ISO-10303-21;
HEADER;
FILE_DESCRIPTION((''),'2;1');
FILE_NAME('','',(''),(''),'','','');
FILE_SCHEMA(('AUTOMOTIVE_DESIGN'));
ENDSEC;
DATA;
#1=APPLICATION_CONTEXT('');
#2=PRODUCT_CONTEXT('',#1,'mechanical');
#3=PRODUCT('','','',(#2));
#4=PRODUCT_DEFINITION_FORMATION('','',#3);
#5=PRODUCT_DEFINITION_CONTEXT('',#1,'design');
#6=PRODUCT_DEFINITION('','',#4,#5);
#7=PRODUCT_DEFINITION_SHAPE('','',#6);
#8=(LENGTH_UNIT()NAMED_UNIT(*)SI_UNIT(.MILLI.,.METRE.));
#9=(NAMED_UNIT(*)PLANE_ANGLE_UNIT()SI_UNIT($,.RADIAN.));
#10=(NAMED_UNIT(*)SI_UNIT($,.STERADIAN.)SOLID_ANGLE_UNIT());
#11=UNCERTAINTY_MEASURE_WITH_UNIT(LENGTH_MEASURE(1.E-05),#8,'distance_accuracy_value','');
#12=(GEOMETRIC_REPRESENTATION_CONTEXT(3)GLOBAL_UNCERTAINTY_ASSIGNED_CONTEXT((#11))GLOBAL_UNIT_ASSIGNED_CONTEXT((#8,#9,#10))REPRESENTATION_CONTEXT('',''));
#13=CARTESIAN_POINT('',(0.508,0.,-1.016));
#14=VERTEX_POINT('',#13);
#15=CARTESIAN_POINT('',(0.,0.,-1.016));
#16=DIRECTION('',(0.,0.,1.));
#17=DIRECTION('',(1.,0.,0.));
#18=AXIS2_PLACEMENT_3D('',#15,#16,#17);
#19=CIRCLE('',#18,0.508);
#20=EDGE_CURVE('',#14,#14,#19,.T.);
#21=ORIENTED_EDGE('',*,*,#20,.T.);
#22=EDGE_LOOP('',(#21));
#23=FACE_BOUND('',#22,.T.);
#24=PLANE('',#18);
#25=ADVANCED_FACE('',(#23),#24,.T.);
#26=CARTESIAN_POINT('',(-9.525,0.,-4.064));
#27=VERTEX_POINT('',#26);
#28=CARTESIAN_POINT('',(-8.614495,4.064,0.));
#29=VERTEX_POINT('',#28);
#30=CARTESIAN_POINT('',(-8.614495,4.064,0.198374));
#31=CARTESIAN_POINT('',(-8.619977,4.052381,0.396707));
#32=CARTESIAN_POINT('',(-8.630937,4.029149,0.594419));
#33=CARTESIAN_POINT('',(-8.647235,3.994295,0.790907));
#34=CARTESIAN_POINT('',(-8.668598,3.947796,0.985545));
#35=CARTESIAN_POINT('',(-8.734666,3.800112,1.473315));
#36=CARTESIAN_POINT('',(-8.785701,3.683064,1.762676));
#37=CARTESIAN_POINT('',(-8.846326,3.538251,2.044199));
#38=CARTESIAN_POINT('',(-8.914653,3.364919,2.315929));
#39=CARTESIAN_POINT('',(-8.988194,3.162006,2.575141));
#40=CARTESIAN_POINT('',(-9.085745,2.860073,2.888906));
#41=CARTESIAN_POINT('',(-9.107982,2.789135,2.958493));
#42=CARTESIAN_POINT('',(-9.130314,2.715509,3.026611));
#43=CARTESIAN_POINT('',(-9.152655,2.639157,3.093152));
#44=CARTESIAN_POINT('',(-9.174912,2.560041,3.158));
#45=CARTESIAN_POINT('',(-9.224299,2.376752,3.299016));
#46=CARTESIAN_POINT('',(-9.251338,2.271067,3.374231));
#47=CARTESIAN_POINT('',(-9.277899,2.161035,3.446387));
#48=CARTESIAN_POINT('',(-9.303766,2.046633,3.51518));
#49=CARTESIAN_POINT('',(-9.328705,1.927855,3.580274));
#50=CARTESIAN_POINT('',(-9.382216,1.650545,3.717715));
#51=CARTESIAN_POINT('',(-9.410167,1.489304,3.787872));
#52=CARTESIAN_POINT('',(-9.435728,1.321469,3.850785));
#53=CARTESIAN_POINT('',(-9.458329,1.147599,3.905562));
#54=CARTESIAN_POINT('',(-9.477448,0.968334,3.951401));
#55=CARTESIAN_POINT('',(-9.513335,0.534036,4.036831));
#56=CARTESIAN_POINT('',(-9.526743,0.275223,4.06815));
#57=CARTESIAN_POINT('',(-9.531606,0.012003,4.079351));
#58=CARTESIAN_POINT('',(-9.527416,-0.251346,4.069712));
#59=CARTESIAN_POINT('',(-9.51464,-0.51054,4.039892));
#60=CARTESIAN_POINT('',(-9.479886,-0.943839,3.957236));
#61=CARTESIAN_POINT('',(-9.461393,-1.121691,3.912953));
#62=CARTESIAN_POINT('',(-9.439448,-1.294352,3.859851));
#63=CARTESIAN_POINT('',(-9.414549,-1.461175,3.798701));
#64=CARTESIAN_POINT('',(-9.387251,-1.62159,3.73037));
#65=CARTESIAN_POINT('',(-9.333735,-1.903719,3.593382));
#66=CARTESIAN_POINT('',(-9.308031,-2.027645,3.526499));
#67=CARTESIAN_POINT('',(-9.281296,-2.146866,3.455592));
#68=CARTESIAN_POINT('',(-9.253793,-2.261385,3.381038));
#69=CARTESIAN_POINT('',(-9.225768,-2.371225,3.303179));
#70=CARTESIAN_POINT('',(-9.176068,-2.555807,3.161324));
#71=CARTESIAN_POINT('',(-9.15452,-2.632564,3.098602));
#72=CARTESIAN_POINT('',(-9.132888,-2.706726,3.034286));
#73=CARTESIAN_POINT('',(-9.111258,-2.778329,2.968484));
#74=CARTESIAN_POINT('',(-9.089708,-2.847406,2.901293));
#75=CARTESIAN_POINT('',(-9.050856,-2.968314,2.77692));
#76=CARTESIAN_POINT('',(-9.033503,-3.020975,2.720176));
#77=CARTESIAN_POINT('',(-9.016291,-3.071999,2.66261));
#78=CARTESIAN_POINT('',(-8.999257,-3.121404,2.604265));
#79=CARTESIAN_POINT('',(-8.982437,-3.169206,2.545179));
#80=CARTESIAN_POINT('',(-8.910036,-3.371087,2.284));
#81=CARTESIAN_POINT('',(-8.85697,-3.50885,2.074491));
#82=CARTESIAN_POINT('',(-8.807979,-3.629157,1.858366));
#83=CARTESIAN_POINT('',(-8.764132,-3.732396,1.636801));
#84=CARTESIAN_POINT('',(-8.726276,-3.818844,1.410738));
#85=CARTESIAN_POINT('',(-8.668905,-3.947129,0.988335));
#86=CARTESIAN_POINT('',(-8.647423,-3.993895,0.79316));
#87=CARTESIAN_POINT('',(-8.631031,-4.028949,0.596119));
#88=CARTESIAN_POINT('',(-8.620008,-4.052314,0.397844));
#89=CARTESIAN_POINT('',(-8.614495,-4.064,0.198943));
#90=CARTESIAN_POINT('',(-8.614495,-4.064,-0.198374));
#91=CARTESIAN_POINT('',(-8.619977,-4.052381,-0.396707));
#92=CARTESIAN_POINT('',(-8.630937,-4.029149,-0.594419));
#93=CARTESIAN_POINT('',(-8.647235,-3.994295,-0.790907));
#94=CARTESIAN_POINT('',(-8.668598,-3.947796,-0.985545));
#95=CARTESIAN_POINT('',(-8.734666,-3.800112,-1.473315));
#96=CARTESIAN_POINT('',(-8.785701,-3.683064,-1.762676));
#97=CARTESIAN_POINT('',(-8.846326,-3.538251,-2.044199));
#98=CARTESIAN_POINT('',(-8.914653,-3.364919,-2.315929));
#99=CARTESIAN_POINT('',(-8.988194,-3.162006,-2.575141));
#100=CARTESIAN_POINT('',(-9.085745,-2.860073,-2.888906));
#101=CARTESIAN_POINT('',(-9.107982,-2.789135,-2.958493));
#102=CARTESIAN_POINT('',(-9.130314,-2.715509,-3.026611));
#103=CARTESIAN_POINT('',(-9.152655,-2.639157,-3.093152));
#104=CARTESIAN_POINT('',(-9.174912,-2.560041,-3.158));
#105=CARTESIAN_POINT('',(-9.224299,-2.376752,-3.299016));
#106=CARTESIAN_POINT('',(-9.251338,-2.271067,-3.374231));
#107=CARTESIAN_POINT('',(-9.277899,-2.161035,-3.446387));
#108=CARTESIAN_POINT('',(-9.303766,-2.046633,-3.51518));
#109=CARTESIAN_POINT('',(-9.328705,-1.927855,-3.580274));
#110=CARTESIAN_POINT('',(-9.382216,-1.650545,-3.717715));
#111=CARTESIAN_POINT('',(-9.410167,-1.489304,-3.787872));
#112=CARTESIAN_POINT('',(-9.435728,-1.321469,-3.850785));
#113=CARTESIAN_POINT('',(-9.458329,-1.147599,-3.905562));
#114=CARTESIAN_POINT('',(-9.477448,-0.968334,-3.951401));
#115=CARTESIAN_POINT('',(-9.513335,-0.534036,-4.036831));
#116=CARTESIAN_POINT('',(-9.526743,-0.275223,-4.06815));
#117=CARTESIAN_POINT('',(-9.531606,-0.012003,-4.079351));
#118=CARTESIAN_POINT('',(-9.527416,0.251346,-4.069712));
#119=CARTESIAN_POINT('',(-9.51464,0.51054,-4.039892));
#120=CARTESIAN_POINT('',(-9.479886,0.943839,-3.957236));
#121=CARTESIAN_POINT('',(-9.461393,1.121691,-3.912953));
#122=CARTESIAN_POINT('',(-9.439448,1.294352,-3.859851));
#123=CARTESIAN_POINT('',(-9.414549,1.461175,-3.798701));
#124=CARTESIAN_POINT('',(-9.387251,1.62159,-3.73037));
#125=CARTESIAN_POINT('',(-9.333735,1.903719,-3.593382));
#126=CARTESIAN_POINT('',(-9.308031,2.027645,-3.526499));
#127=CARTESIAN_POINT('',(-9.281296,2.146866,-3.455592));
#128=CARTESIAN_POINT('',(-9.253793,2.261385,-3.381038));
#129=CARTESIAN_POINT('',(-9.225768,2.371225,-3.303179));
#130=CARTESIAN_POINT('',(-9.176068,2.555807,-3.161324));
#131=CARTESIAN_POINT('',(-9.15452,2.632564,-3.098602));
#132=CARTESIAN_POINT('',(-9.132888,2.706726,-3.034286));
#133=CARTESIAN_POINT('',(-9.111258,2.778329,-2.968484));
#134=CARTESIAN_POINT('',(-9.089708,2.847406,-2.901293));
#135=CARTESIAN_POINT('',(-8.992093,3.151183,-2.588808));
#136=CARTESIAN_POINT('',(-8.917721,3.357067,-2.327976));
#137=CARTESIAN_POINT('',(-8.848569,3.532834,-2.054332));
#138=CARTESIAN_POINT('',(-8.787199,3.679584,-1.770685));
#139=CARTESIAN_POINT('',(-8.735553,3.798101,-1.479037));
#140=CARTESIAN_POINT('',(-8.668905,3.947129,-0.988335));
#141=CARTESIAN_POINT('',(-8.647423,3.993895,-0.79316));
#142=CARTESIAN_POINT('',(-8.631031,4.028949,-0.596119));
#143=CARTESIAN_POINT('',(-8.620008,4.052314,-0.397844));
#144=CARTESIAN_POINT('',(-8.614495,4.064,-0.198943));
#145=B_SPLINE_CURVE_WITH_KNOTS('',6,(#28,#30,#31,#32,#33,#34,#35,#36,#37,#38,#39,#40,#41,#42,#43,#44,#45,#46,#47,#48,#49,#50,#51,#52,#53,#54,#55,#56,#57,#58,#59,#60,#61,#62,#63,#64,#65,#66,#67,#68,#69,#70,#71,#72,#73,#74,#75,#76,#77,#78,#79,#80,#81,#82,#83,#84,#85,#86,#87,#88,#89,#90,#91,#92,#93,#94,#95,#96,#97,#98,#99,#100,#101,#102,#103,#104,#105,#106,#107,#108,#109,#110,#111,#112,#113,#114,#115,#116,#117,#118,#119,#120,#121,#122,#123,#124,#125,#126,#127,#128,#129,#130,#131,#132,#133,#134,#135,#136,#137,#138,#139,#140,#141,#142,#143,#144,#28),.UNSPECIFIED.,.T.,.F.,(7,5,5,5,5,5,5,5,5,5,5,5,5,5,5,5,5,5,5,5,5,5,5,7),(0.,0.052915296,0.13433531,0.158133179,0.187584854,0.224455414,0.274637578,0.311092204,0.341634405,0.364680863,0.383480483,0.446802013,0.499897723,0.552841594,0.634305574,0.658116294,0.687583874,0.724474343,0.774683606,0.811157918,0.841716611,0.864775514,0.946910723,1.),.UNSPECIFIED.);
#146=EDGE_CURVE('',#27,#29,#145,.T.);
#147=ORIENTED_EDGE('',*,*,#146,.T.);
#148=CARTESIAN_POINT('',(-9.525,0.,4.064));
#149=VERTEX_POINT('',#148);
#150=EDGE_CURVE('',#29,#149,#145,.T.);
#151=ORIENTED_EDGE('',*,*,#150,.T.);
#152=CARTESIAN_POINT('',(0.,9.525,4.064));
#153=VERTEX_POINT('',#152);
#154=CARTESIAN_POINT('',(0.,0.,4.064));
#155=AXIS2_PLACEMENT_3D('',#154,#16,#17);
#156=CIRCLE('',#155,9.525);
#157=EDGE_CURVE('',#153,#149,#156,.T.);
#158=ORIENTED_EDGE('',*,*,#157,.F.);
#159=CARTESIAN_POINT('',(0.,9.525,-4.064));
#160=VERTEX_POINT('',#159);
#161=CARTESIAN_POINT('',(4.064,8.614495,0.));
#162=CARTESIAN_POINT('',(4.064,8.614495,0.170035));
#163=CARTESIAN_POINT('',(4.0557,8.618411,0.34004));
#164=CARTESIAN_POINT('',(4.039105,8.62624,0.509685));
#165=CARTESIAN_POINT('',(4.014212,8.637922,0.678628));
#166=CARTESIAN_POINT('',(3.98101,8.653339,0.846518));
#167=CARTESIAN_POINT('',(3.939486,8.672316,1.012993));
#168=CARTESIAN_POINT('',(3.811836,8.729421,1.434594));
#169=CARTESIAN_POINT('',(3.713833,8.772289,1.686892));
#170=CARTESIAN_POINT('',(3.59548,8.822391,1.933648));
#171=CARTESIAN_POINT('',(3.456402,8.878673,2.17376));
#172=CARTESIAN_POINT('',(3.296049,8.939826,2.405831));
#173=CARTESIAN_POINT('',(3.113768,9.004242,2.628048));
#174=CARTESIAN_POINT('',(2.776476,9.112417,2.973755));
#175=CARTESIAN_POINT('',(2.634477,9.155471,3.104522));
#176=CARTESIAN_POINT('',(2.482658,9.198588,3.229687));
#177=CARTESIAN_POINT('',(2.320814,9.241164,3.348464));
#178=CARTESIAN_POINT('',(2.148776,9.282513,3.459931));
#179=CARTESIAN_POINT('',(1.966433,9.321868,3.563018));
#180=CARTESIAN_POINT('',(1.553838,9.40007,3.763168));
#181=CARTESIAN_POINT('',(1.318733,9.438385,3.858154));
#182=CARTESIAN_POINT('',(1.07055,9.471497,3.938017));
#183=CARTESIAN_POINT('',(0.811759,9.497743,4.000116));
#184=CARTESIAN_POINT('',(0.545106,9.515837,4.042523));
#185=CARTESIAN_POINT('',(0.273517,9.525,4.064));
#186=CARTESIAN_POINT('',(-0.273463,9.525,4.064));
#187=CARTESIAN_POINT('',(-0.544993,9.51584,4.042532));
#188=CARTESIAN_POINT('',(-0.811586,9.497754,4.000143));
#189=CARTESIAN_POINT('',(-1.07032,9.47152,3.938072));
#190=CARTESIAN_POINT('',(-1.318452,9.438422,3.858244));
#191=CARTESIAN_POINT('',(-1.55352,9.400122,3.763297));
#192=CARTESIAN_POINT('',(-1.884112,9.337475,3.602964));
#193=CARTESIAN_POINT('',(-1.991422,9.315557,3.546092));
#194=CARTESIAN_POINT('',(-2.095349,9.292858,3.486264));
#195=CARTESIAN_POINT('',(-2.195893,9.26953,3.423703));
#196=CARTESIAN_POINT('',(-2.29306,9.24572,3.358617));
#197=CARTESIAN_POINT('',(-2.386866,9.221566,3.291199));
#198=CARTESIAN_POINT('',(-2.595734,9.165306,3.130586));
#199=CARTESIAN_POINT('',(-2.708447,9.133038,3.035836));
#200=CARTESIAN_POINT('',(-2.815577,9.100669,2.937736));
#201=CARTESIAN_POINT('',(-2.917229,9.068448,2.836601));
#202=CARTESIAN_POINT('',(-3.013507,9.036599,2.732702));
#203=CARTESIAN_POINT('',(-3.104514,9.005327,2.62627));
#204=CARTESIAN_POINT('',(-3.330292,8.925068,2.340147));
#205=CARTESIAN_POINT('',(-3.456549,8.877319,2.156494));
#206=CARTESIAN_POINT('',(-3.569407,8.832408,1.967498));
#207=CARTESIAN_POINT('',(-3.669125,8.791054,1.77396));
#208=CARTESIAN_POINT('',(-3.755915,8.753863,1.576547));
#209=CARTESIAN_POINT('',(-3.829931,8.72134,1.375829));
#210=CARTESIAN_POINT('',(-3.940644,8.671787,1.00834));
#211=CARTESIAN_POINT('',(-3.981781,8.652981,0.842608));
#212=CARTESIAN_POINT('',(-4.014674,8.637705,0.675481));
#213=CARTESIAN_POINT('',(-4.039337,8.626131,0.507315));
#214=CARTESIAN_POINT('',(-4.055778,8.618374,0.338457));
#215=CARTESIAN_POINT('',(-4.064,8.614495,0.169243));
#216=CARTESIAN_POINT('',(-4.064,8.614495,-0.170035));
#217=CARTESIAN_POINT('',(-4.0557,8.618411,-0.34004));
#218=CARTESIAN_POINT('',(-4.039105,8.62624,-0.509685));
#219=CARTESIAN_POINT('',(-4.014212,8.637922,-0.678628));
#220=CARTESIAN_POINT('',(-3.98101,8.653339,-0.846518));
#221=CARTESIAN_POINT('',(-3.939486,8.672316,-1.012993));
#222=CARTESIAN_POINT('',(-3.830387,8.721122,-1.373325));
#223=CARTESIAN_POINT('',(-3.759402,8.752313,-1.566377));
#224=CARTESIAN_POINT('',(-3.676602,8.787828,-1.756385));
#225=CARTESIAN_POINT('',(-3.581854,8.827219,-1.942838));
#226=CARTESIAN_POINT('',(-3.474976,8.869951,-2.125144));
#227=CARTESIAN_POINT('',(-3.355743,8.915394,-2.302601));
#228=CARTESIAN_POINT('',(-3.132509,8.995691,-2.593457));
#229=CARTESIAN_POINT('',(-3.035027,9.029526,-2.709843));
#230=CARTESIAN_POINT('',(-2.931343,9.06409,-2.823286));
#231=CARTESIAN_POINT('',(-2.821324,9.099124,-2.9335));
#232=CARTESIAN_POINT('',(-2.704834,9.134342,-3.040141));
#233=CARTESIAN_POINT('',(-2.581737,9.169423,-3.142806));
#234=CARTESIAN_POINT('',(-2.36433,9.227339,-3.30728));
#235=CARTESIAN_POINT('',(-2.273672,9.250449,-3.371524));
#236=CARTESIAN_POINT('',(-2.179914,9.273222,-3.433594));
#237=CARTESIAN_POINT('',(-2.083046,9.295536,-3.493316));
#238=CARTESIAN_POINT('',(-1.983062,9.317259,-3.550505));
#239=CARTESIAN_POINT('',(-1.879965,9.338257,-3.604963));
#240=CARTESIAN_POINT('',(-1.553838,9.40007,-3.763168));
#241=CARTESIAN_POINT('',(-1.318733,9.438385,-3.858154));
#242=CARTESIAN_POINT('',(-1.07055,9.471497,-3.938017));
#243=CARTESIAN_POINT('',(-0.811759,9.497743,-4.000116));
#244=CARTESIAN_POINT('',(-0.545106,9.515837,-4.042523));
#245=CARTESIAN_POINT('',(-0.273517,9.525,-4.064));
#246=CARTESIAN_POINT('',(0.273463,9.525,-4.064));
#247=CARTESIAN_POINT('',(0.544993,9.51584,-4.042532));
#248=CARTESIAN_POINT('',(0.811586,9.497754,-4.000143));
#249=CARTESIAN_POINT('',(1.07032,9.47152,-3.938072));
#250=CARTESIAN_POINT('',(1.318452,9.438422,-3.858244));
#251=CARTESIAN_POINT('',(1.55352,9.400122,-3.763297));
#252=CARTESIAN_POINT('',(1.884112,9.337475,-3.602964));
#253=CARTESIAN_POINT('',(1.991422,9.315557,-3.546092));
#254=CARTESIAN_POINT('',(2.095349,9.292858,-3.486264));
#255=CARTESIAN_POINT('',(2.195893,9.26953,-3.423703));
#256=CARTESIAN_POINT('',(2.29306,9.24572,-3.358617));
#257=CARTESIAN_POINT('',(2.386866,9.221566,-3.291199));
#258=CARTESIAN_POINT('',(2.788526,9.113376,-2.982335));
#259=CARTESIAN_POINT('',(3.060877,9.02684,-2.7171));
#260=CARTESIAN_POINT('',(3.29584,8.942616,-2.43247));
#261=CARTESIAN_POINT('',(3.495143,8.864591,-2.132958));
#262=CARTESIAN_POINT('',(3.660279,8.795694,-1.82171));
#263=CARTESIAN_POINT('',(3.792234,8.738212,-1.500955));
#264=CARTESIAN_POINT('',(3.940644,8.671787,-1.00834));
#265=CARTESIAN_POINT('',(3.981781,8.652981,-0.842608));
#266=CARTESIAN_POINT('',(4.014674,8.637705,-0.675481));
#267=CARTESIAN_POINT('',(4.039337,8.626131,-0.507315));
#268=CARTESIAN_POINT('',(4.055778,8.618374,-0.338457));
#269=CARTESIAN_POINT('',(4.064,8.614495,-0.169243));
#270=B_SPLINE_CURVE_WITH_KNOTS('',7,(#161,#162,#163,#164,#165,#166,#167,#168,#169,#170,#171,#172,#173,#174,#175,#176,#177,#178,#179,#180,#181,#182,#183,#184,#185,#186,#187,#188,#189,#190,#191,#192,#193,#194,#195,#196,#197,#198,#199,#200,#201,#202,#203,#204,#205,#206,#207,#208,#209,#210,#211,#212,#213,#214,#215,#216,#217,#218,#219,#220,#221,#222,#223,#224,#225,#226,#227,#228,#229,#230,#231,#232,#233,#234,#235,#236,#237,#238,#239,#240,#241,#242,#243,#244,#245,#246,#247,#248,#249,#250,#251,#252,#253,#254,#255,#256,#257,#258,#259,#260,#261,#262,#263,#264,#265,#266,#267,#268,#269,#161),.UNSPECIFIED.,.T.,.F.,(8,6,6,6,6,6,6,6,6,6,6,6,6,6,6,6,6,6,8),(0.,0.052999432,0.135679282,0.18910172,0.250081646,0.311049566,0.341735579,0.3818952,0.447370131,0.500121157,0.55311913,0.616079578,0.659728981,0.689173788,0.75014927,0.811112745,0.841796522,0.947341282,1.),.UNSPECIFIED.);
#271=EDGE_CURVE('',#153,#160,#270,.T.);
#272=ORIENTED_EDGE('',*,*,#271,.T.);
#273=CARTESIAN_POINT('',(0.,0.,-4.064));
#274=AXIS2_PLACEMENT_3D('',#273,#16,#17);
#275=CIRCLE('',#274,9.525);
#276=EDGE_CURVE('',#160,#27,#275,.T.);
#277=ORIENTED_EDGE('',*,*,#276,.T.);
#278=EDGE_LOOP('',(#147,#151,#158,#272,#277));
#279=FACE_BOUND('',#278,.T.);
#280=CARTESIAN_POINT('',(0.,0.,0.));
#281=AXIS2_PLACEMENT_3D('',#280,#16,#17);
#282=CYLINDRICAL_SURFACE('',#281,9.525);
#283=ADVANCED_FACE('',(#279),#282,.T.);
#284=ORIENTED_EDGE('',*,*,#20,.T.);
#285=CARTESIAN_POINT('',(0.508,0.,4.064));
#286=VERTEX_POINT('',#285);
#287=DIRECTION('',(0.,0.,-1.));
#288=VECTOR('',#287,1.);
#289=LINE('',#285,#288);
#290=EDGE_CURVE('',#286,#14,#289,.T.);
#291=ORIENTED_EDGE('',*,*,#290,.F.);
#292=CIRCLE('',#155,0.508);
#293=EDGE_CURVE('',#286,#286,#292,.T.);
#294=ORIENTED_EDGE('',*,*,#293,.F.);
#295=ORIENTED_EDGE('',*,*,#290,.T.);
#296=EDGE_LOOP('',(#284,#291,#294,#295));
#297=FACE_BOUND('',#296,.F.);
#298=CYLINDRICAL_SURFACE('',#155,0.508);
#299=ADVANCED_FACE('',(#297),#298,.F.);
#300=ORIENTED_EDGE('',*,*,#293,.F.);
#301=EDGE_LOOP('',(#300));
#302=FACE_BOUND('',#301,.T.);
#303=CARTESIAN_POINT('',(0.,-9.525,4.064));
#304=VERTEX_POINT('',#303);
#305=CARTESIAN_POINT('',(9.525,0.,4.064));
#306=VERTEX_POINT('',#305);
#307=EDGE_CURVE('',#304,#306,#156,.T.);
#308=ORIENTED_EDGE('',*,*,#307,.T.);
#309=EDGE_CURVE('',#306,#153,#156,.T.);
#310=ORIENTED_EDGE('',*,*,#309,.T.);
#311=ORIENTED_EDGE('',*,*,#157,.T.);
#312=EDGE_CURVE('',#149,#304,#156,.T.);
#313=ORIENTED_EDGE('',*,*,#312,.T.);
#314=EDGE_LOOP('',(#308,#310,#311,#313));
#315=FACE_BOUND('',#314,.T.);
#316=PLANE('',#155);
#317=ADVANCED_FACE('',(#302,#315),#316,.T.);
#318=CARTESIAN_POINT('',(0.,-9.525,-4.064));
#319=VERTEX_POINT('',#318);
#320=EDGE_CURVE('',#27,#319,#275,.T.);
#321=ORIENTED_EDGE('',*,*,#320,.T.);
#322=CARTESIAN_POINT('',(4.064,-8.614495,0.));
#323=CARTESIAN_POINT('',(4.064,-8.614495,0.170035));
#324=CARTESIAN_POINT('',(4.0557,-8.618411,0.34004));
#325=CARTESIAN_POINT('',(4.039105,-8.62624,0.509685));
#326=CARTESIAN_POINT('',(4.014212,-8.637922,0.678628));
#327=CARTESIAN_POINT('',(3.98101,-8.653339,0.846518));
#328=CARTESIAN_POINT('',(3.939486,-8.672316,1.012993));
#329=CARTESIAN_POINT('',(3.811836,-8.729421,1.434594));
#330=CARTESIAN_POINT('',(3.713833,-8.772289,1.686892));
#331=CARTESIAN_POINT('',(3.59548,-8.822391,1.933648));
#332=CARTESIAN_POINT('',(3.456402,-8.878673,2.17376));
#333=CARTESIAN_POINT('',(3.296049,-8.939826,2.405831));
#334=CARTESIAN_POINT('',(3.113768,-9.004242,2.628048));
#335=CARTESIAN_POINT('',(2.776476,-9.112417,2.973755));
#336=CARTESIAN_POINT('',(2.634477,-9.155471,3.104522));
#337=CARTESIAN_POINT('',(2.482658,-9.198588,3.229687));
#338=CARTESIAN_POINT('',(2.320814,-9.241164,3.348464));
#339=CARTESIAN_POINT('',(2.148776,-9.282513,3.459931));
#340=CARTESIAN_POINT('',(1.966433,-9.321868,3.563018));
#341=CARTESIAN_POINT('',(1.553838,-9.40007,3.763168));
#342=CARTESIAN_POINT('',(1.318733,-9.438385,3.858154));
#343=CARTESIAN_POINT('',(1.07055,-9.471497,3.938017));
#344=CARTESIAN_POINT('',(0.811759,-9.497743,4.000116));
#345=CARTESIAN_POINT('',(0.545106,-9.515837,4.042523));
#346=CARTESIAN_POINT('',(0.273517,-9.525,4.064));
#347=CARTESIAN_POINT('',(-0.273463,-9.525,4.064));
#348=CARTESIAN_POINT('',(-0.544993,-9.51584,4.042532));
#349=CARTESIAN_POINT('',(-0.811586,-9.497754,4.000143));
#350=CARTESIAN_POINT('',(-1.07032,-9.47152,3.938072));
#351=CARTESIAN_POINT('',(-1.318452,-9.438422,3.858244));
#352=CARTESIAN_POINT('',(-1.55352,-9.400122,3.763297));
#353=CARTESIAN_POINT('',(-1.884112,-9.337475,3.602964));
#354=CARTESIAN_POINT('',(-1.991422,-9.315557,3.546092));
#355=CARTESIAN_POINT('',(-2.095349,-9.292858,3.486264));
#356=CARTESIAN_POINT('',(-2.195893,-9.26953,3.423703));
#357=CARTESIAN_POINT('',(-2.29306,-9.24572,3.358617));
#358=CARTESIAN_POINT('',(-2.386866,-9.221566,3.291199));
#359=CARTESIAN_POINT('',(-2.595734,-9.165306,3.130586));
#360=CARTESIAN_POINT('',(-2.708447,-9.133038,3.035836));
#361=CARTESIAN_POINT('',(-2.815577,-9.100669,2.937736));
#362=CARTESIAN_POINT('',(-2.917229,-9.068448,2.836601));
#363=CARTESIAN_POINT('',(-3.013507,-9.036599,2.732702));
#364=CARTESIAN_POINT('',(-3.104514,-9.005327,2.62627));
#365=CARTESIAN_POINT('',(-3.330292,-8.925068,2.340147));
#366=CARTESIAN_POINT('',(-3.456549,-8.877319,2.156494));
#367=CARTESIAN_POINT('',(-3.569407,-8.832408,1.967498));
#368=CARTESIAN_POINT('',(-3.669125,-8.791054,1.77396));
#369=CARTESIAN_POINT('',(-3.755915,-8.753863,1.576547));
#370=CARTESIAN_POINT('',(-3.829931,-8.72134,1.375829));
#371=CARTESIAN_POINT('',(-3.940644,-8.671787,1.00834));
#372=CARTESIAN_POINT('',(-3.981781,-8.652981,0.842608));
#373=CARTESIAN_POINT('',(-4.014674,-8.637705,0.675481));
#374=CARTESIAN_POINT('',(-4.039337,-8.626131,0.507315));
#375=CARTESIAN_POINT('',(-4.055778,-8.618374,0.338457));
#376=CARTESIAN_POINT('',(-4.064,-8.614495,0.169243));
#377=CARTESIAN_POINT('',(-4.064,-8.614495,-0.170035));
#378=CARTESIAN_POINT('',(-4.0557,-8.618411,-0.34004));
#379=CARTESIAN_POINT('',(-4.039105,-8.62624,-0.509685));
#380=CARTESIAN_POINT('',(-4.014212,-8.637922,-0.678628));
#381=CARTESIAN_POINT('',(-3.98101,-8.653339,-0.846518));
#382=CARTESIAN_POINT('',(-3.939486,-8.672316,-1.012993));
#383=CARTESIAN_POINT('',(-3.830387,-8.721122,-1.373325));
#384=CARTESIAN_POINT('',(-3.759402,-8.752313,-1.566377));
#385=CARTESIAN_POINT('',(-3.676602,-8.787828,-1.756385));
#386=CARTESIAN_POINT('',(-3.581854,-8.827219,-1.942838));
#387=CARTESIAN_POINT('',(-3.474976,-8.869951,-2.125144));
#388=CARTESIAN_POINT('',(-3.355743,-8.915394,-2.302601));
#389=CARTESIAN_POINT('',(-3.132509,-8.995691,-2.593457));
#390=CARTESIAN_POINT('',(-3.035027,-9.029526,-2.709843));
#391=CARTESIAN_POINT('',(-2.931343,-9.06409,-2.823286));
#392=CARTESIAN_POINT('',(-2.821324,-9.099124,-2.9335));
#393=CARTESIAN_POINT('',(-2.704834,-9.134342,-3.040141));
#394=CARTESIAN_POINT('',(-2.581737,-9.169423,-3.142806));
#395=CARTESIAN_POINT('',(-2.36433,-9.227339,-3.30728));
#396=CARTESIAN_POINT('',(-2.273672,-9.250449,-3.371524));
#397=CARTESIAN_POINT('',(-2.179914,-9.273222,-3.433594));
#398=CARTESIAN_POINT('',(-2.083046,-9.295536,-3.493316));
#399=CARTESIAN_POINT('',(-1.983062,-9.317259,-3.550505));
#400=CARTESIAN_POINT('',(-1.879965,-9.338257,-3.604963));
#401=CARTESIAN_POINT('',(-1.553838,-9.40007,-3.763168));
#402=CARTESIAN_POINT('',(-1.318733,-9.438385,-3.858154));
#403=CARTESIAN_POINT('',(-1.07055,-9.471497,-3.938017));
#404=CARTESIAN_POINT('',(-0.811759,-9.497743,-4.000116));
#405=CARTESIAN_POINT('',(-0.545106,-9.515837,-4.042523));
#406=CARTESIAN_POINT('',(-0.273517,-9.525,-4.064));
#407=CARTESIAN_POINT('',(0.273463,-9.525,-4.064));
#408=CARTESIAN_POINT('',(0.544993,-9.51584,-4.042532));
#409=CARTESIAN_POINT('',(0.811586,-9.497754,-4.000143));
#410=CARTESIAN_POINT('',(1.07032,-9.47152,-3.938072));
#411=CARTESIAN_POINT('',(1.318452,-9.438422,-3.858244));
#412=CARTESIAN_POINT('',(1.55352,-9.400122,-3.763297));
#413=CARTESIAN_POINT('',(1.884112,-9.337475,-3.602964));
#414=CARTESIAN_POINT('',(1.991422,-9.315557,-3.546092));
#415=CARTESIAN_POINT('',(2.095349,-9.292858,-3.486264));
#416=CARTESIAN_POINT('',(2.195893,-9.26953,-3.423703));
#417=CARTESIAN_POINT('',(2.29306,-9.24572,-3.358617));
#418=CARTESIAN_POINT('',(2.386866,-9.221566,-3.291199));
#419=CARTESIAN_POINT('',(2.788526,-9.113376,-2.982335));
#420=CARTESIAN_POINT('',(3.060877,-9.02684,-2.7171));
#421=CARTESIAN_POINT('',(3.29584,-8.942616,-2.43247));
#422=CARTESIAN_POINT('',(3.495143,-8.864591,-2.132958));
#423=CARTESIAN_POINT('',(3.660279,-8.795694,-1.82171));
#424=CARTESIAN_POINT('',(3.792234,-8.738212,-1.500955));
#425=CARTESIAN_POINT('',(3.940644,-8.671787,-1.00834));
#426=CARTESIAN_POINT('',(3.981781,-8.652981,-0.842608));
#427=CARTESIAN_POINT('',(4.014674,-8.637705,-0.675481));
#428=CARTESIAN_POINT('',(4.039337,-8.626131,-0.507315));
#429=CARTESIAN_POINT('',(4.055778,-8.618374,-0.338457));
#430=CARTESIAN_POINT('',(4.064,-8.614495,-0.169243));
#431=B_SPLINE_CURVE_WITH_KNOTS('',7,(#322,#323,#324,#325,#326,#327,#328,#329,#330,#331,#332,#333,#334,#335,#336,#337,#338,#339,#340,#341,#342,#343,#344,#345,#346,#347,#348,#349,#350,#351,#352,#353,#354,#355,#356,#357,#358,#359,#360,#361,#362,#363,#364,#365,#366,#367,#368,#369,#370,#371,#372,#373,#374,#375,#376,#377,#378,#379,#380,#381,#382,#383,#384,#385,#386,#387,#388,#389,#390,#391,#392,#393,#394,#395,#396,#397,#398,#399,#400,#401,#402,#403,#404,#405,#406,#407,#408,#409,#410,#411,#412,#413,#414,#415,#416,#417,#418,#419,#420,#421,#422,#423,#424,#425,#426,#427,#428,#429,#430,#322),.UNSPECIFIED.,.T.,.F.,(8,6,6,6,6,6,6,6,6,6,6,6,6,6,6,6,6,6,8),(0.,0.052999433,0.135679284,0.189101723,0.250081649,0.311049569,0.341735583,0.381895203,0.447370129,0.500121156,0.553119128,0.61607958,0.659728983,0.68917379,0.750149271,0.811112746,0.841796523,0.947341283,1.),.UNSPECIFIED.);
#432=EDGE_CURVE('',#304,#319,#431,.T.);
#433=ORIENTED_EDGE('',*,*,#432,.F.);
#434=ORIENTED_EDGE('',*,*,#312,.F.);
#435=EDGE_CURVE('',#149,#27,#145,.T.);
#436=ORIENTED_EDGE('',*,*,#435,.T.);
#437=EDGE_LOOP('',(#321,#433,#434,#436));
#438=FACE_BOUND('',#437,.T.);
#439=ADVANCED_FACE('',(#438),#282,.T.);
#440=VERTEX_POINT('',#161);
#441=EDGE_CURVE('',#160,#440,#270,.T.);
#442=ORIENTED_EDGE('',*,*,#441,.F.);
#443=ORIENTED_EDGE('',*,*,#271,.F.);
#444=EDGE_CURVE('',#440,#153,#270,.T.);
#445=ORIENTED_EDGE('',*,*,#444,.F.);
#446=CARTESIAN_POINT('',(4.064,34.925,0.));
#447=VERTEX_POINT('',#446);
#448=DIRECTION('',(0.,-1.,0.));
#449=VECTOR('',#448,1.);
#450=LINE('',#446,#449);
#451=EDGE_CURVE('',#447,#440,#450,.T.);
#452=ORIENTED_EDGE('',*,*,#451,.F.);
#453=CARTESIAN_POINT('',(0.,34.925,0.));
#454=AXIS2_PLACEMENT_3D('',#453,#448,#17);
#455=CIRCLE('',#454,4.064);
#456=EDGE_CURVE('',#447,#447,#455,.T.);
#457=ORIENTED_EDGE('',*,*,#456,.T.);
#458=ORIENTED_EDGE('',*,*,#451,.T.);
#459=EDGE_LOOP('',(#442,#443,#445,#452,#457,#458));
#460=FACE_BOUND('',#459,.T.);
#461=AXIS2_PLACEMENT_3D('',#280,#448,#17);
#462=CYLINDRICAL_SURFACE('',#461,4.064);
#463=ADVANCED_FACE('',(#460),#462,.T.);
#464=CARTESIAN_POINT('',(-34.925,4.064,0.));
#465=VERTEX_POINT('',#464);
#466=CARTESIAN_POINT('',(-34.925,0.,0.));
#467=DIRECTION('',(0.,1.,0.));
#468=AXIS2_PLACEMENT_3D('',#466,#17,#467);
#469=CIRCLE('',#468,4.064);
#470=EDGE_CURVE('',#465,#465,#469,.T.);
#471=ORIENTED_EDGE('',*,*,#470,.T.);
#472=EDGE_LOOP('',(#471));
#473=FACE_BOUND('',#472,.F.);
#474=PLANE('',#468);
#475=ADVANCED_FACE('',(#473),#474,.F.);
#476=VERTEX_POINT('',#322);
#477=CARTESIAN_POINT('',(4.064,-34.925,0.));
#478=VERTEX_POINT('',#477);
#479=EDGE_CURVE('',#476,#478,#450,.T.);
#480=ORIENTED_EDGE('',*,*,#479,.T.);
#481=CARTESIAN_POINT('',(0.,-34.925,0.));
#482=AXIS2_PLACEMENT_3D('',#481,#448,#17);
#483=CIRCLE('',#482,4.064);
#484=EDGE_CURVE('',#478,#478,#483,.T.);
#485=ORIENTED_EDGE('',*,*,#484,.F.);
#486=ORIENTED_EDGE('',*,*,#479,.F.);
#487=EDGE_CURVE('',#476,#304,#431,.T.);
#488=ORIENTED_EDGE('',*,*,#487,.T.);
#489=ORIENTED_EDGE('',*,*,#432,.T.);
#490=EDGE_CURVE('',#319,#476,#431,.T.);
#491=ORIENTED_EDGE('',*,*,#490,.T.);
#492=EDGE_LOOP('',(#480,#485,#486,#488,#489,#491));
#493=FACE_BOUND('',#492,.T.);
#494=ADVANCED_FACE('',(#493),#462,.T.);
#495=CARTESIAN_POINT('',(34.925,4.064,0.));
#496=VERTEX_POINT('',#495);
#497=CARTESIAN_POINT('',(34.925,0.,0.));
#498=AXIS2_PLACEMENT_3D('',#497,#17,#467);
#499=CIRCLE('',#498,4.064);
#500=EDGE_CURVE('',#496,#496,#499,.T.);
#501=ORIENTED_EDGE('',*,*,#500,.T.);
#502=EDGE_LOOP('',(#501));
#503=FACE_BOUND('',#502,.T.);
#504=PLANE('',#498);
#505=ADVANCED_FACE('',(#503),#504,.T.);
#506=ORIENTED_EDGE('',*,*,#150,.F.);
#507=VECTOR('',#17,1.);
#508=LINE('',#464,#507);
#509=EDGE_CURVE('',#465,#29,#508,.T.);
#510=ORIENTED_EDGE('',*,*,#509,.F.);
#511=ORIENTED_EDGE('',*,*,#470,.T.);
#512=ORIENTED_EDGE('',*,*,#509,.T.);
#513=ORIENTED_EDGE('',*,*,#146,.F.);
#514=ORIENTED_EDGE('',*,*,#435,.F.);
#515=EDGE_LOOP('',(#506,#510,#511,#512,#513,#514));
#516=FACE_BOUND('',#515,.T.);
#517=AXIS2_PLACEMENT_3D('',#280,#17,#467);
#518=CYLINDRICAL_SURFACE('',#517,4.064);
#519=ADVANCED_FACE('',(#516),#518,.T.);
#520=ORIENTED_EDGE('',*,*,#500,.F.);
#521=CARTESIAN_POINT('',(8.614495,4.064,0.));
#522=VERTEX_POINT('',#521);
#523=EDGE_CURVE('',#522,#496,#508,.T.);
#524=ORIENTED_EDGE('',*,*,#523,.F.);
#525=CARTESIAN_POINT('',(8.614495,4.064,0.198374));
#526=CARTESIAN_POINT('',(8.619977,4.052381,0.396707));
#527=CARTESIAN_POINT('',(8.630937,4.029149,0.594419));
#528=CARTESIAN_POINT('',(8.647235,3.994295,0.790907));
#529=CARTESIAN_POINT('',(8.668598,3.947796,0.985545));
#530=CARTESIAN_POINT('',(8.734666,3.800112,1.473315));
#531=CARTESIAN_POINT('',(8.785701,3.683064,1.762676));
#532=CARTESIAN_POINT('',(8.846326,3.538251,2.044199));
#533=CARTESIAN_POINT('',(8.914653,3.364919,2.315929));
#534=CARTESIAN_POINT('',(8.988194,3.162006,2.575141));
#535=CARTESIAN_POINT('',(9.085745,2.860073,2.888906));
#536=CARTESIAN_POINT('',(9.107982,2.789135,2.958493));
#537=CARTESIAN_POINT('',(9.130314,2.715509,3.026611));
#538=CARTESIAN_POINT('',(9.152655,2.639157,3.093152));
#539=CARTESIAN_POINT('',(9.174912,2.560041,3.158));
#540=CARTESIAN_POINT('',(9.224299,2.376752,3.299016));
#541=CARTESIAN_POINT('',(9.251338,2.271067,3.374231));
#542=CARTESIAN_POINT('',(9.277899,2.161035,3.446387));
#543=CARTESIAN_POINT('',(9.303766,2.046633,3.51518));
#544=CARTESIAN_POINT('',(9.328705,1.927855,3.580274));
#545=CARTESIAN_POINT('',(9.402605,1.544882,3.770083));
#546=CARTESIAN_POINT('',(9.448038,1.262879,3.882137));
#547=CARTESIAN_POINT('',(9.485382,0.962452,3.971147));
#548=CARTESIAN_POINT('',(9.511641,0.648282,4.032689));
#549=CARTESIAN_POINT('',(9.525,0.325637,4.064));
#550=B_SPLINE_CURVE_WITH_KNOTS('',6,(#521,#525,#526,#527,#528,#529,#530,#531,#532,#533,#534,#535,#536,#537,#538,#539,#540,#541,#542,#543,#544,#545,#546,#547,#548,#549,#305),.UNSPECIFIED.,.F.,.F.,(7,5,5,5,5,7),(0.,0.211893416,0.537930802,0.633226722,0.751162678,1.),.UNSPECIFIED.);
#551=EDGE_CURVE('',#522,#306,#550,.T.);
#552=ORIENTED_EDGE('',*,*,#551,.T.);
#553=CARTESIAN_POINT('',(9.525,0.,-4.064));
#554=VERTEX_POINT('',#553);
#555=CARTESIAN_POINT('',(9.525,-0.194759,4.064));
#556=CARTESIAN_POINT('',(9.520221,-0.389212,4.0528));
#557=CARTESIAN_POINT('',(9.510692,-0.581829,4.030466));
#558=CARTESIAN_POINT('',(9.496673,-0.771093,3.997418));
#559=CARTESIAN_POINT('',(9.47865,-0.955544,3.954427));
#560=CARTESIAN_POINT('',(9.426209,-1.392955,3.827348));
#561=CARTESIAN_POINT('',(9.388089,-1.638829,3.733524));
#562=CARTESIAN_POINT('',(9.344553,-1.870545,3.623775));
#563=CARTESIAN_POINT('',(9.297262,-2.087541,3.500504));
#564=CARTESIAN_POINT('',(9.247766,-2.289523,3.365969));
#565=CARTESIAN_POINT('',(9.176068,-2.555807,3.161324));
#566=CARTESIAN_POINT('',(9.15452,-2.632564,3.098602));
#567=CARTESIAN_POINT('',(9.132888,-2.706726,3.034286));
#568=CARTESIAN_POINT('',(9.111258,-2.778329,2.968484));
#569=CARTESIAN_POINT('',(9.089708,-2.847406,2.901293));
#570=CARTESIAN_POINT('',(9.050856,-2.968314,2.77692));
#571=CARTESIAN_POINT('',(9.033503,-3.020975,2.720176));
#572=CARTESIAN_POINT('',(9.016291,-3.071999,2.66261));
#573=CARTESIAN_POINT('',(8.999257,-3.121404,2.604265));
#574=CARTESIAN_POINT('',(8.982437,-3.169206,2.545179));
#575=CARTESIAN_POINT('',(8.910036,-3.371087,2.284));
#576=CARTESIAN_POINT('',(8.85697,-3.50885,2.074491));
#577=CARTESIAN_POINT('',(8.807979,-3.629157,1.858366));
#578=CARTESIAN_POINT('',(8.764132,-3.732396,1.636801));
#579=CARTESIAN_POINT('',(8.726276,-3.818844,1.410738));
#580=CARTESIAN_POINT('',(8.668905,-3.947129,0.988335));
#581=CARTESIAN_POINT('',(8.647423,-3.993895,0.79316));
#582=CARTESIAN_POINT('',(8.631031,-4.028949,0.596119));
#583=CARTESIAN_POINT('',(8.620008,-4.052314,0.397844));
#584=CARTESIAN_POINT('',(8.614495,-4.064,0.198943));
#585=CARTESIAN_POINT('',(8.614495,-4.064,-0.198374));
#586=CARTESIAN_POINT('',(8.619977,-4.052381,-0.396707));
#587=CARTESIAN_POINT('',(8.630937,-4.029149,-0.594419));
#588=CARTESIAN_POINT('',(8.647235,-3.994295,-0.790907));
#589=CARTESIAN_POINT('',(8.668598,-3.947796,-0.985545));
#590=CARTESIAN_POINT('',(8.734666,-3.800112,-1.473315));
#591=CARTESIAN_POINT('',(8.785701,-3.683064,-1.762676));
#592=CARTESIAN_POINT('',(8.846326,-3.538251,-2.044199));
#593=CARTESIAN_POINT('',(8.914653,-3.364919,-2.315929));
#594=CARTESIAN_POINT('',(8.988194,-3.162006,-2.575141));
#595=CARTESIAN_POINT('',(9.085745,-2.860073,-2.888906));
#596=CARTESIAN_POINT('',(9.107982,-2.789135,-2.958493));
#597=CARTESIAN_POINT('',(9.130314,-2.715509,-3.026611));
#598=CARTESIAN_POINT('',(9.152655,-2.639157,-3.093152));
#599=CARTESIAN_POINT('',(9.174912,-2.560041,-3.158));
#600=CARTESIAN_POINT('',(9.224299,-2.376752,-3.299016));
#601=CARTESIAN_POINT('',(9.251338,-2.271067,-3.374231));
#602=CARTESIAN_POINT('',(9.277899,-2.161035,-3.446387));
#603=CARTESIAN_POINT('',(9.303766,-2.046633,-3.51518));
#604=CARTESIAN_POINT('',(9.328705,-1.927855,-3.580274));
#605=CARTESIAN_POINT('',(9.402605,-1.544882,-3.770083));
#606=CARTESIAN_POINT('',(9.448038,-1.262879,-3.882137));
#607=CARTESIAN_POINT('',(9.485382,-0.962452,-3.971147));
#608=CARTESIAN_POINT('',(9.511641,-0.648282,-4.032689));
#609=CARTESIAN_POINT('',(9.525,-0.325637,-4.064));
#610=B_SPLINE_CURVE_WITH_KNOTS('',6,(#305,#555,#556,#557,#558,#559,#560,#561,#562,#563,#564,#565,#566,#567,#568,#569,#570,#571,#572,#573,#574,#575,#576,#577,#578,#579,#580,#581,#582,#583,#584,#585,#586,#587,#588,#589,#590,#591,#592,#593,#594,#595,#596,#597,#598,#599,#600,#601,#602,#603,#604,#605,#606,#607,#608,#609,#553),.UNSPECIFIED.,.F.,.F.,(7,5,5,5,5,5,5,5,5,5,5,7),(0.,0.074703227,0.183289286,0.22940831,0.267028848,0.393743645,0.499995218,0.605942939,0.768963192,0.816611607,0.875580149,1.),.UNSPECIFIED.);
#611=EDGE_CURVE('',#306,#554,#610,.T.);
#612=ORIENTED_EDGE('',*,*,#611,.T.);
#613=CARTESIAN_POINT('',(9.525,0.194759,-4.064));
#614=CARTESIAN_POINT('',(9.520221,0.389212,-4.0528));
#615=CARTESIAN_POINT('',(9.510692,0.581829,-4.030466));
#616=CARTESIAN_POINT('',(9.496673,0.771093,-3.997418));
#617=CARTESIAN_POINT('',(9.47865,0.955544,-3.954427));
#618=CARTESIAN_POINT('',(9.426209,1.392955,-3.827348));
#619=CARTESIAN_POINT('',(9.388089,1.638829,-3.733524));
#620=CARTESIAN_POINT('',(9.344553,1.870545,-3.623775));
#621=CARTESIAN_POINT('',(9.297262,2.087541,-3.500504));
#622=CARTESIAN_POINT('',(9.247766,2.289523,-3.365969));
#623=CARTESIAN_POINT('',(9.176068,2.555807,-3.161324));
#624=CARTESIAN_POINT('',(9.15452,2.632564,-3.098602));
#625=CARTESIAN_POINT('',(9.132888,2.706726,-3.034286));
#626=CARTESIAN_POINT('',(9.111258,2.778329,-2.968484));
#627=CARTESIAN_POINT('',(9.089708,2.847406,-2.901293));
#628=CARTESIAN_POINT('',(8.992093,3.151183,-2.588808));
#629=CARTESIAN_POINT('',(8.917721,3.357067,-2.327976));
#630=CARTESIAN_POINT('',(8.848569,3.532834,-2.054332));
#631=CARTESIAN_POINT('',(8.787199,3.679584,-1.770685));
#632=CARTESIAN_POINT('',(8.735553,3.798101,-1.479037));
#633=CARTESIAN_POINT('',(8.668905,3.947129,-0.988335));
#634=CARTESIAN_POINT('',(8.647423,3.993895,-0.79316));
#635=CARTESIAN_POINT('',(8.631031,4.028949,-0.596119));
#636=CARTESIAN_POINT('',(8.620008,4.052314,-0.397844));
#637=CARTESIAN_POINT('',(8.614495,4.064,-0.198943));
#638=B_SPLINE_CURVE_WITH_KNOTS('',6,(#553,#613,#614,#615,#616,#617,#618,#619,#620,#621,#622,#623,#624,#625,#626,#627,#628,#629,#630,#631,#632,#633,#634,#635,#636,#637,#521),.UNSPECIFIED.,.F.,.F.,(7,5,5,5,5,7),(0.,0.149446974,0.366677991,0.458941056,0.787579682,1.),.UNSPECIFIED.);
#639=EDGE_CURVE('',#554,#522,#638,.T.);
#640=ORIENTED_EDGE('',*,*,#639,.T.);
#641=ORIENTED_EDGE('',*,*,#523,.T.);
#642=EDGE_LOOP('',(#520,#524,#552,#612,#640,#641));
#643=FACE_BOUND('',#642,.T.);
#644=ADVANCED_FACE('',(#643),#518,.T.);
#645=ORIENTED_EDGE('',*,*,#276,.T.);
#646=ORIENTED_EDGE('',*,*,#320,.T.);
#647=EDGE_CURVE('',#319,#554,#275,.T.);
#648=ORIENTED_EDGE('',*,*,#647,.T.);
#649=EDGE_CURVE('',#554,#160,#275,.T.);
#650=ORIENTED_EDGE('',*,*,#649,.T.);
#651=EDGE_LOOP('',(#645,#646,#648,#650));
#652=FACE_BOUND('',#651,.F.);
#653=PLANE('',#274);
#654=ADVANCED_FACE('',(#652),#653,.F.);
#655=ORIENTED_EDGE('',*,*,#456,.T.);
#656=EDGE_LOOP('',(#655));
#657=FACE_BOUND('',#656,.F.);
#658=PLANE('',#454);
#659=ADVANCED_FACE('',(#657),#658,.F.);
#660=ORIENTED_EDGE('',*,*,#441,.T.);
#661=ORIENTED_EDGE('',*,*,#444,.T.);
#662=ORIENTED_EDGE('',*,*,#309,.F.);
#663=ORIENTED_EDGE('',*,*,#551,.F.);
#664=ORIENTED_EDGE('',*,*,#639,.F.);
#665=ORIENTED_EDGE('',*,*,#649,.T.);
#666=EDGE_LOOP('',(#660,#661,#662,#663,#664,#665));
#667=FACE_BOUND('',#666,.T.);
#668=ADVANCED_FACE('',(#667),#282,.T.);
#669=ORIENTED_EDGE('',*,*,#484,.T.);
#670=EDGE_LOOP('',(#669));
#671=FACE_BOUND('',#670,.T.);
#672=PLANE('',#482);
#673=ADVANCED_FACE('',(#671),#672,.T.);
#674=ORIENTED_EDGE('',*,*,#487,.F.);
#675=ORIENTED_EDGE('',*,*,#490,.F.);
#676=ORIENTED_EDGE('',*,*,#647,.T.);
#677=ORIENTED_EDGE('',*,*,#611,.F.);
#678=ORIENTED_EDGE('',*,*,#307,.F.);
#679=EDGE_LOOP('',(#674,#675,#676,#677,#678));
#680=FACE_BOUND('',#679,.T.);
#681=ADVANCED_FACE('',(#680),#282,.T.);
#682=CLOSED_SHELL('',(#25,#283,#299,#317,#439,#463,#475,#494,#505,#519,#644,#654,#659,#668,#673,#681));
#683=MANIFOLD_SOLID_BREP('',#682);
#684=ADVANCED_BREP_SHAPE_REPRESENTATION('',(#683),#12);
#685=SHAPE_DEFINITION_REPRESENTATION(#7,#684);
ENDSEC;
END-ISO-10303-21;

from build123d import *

# Parameters (mm, degrees)
F0_R     = 9.525
F1_DEPTH = 4.064
F2_R     = 4.064
F3_DEPTH = 34.925
F4_R     = 4.064
F5_DEPTH = 34.925
F6_R     = 0.508
F7_DEPTH = 5.08


with BuildPart() as f1:
    # F0 (on Top) → F1 (new body, symmetric)
    with BuildSketch(Plane.XY):
        Circle(F0_R)
    extrude(amount=F1_DEPTH, both=True)

    # F2 (on Right) → F3 (join, symmetric)
    with BuildSketch(Plane.YZ):
        Circle(F2_R)
    extrude(amount=F3_DEPTH, both=True)

    # F4 (on Front) → F5 (join, symmetric)
    with BuildSketch(Plane.XZ):
        Circle(F4_R)
    extrude(amount=F5_DEPTH, both=True)

    # F6 (on face) → F7 (cut)
    with BuildSketch(Plane.XY.offset(4.064)):
        Circle(F6_R)
    extrude(amount=-F7_DEPTH, mode=Mode.SUBTRACT)


solid = f1.part
